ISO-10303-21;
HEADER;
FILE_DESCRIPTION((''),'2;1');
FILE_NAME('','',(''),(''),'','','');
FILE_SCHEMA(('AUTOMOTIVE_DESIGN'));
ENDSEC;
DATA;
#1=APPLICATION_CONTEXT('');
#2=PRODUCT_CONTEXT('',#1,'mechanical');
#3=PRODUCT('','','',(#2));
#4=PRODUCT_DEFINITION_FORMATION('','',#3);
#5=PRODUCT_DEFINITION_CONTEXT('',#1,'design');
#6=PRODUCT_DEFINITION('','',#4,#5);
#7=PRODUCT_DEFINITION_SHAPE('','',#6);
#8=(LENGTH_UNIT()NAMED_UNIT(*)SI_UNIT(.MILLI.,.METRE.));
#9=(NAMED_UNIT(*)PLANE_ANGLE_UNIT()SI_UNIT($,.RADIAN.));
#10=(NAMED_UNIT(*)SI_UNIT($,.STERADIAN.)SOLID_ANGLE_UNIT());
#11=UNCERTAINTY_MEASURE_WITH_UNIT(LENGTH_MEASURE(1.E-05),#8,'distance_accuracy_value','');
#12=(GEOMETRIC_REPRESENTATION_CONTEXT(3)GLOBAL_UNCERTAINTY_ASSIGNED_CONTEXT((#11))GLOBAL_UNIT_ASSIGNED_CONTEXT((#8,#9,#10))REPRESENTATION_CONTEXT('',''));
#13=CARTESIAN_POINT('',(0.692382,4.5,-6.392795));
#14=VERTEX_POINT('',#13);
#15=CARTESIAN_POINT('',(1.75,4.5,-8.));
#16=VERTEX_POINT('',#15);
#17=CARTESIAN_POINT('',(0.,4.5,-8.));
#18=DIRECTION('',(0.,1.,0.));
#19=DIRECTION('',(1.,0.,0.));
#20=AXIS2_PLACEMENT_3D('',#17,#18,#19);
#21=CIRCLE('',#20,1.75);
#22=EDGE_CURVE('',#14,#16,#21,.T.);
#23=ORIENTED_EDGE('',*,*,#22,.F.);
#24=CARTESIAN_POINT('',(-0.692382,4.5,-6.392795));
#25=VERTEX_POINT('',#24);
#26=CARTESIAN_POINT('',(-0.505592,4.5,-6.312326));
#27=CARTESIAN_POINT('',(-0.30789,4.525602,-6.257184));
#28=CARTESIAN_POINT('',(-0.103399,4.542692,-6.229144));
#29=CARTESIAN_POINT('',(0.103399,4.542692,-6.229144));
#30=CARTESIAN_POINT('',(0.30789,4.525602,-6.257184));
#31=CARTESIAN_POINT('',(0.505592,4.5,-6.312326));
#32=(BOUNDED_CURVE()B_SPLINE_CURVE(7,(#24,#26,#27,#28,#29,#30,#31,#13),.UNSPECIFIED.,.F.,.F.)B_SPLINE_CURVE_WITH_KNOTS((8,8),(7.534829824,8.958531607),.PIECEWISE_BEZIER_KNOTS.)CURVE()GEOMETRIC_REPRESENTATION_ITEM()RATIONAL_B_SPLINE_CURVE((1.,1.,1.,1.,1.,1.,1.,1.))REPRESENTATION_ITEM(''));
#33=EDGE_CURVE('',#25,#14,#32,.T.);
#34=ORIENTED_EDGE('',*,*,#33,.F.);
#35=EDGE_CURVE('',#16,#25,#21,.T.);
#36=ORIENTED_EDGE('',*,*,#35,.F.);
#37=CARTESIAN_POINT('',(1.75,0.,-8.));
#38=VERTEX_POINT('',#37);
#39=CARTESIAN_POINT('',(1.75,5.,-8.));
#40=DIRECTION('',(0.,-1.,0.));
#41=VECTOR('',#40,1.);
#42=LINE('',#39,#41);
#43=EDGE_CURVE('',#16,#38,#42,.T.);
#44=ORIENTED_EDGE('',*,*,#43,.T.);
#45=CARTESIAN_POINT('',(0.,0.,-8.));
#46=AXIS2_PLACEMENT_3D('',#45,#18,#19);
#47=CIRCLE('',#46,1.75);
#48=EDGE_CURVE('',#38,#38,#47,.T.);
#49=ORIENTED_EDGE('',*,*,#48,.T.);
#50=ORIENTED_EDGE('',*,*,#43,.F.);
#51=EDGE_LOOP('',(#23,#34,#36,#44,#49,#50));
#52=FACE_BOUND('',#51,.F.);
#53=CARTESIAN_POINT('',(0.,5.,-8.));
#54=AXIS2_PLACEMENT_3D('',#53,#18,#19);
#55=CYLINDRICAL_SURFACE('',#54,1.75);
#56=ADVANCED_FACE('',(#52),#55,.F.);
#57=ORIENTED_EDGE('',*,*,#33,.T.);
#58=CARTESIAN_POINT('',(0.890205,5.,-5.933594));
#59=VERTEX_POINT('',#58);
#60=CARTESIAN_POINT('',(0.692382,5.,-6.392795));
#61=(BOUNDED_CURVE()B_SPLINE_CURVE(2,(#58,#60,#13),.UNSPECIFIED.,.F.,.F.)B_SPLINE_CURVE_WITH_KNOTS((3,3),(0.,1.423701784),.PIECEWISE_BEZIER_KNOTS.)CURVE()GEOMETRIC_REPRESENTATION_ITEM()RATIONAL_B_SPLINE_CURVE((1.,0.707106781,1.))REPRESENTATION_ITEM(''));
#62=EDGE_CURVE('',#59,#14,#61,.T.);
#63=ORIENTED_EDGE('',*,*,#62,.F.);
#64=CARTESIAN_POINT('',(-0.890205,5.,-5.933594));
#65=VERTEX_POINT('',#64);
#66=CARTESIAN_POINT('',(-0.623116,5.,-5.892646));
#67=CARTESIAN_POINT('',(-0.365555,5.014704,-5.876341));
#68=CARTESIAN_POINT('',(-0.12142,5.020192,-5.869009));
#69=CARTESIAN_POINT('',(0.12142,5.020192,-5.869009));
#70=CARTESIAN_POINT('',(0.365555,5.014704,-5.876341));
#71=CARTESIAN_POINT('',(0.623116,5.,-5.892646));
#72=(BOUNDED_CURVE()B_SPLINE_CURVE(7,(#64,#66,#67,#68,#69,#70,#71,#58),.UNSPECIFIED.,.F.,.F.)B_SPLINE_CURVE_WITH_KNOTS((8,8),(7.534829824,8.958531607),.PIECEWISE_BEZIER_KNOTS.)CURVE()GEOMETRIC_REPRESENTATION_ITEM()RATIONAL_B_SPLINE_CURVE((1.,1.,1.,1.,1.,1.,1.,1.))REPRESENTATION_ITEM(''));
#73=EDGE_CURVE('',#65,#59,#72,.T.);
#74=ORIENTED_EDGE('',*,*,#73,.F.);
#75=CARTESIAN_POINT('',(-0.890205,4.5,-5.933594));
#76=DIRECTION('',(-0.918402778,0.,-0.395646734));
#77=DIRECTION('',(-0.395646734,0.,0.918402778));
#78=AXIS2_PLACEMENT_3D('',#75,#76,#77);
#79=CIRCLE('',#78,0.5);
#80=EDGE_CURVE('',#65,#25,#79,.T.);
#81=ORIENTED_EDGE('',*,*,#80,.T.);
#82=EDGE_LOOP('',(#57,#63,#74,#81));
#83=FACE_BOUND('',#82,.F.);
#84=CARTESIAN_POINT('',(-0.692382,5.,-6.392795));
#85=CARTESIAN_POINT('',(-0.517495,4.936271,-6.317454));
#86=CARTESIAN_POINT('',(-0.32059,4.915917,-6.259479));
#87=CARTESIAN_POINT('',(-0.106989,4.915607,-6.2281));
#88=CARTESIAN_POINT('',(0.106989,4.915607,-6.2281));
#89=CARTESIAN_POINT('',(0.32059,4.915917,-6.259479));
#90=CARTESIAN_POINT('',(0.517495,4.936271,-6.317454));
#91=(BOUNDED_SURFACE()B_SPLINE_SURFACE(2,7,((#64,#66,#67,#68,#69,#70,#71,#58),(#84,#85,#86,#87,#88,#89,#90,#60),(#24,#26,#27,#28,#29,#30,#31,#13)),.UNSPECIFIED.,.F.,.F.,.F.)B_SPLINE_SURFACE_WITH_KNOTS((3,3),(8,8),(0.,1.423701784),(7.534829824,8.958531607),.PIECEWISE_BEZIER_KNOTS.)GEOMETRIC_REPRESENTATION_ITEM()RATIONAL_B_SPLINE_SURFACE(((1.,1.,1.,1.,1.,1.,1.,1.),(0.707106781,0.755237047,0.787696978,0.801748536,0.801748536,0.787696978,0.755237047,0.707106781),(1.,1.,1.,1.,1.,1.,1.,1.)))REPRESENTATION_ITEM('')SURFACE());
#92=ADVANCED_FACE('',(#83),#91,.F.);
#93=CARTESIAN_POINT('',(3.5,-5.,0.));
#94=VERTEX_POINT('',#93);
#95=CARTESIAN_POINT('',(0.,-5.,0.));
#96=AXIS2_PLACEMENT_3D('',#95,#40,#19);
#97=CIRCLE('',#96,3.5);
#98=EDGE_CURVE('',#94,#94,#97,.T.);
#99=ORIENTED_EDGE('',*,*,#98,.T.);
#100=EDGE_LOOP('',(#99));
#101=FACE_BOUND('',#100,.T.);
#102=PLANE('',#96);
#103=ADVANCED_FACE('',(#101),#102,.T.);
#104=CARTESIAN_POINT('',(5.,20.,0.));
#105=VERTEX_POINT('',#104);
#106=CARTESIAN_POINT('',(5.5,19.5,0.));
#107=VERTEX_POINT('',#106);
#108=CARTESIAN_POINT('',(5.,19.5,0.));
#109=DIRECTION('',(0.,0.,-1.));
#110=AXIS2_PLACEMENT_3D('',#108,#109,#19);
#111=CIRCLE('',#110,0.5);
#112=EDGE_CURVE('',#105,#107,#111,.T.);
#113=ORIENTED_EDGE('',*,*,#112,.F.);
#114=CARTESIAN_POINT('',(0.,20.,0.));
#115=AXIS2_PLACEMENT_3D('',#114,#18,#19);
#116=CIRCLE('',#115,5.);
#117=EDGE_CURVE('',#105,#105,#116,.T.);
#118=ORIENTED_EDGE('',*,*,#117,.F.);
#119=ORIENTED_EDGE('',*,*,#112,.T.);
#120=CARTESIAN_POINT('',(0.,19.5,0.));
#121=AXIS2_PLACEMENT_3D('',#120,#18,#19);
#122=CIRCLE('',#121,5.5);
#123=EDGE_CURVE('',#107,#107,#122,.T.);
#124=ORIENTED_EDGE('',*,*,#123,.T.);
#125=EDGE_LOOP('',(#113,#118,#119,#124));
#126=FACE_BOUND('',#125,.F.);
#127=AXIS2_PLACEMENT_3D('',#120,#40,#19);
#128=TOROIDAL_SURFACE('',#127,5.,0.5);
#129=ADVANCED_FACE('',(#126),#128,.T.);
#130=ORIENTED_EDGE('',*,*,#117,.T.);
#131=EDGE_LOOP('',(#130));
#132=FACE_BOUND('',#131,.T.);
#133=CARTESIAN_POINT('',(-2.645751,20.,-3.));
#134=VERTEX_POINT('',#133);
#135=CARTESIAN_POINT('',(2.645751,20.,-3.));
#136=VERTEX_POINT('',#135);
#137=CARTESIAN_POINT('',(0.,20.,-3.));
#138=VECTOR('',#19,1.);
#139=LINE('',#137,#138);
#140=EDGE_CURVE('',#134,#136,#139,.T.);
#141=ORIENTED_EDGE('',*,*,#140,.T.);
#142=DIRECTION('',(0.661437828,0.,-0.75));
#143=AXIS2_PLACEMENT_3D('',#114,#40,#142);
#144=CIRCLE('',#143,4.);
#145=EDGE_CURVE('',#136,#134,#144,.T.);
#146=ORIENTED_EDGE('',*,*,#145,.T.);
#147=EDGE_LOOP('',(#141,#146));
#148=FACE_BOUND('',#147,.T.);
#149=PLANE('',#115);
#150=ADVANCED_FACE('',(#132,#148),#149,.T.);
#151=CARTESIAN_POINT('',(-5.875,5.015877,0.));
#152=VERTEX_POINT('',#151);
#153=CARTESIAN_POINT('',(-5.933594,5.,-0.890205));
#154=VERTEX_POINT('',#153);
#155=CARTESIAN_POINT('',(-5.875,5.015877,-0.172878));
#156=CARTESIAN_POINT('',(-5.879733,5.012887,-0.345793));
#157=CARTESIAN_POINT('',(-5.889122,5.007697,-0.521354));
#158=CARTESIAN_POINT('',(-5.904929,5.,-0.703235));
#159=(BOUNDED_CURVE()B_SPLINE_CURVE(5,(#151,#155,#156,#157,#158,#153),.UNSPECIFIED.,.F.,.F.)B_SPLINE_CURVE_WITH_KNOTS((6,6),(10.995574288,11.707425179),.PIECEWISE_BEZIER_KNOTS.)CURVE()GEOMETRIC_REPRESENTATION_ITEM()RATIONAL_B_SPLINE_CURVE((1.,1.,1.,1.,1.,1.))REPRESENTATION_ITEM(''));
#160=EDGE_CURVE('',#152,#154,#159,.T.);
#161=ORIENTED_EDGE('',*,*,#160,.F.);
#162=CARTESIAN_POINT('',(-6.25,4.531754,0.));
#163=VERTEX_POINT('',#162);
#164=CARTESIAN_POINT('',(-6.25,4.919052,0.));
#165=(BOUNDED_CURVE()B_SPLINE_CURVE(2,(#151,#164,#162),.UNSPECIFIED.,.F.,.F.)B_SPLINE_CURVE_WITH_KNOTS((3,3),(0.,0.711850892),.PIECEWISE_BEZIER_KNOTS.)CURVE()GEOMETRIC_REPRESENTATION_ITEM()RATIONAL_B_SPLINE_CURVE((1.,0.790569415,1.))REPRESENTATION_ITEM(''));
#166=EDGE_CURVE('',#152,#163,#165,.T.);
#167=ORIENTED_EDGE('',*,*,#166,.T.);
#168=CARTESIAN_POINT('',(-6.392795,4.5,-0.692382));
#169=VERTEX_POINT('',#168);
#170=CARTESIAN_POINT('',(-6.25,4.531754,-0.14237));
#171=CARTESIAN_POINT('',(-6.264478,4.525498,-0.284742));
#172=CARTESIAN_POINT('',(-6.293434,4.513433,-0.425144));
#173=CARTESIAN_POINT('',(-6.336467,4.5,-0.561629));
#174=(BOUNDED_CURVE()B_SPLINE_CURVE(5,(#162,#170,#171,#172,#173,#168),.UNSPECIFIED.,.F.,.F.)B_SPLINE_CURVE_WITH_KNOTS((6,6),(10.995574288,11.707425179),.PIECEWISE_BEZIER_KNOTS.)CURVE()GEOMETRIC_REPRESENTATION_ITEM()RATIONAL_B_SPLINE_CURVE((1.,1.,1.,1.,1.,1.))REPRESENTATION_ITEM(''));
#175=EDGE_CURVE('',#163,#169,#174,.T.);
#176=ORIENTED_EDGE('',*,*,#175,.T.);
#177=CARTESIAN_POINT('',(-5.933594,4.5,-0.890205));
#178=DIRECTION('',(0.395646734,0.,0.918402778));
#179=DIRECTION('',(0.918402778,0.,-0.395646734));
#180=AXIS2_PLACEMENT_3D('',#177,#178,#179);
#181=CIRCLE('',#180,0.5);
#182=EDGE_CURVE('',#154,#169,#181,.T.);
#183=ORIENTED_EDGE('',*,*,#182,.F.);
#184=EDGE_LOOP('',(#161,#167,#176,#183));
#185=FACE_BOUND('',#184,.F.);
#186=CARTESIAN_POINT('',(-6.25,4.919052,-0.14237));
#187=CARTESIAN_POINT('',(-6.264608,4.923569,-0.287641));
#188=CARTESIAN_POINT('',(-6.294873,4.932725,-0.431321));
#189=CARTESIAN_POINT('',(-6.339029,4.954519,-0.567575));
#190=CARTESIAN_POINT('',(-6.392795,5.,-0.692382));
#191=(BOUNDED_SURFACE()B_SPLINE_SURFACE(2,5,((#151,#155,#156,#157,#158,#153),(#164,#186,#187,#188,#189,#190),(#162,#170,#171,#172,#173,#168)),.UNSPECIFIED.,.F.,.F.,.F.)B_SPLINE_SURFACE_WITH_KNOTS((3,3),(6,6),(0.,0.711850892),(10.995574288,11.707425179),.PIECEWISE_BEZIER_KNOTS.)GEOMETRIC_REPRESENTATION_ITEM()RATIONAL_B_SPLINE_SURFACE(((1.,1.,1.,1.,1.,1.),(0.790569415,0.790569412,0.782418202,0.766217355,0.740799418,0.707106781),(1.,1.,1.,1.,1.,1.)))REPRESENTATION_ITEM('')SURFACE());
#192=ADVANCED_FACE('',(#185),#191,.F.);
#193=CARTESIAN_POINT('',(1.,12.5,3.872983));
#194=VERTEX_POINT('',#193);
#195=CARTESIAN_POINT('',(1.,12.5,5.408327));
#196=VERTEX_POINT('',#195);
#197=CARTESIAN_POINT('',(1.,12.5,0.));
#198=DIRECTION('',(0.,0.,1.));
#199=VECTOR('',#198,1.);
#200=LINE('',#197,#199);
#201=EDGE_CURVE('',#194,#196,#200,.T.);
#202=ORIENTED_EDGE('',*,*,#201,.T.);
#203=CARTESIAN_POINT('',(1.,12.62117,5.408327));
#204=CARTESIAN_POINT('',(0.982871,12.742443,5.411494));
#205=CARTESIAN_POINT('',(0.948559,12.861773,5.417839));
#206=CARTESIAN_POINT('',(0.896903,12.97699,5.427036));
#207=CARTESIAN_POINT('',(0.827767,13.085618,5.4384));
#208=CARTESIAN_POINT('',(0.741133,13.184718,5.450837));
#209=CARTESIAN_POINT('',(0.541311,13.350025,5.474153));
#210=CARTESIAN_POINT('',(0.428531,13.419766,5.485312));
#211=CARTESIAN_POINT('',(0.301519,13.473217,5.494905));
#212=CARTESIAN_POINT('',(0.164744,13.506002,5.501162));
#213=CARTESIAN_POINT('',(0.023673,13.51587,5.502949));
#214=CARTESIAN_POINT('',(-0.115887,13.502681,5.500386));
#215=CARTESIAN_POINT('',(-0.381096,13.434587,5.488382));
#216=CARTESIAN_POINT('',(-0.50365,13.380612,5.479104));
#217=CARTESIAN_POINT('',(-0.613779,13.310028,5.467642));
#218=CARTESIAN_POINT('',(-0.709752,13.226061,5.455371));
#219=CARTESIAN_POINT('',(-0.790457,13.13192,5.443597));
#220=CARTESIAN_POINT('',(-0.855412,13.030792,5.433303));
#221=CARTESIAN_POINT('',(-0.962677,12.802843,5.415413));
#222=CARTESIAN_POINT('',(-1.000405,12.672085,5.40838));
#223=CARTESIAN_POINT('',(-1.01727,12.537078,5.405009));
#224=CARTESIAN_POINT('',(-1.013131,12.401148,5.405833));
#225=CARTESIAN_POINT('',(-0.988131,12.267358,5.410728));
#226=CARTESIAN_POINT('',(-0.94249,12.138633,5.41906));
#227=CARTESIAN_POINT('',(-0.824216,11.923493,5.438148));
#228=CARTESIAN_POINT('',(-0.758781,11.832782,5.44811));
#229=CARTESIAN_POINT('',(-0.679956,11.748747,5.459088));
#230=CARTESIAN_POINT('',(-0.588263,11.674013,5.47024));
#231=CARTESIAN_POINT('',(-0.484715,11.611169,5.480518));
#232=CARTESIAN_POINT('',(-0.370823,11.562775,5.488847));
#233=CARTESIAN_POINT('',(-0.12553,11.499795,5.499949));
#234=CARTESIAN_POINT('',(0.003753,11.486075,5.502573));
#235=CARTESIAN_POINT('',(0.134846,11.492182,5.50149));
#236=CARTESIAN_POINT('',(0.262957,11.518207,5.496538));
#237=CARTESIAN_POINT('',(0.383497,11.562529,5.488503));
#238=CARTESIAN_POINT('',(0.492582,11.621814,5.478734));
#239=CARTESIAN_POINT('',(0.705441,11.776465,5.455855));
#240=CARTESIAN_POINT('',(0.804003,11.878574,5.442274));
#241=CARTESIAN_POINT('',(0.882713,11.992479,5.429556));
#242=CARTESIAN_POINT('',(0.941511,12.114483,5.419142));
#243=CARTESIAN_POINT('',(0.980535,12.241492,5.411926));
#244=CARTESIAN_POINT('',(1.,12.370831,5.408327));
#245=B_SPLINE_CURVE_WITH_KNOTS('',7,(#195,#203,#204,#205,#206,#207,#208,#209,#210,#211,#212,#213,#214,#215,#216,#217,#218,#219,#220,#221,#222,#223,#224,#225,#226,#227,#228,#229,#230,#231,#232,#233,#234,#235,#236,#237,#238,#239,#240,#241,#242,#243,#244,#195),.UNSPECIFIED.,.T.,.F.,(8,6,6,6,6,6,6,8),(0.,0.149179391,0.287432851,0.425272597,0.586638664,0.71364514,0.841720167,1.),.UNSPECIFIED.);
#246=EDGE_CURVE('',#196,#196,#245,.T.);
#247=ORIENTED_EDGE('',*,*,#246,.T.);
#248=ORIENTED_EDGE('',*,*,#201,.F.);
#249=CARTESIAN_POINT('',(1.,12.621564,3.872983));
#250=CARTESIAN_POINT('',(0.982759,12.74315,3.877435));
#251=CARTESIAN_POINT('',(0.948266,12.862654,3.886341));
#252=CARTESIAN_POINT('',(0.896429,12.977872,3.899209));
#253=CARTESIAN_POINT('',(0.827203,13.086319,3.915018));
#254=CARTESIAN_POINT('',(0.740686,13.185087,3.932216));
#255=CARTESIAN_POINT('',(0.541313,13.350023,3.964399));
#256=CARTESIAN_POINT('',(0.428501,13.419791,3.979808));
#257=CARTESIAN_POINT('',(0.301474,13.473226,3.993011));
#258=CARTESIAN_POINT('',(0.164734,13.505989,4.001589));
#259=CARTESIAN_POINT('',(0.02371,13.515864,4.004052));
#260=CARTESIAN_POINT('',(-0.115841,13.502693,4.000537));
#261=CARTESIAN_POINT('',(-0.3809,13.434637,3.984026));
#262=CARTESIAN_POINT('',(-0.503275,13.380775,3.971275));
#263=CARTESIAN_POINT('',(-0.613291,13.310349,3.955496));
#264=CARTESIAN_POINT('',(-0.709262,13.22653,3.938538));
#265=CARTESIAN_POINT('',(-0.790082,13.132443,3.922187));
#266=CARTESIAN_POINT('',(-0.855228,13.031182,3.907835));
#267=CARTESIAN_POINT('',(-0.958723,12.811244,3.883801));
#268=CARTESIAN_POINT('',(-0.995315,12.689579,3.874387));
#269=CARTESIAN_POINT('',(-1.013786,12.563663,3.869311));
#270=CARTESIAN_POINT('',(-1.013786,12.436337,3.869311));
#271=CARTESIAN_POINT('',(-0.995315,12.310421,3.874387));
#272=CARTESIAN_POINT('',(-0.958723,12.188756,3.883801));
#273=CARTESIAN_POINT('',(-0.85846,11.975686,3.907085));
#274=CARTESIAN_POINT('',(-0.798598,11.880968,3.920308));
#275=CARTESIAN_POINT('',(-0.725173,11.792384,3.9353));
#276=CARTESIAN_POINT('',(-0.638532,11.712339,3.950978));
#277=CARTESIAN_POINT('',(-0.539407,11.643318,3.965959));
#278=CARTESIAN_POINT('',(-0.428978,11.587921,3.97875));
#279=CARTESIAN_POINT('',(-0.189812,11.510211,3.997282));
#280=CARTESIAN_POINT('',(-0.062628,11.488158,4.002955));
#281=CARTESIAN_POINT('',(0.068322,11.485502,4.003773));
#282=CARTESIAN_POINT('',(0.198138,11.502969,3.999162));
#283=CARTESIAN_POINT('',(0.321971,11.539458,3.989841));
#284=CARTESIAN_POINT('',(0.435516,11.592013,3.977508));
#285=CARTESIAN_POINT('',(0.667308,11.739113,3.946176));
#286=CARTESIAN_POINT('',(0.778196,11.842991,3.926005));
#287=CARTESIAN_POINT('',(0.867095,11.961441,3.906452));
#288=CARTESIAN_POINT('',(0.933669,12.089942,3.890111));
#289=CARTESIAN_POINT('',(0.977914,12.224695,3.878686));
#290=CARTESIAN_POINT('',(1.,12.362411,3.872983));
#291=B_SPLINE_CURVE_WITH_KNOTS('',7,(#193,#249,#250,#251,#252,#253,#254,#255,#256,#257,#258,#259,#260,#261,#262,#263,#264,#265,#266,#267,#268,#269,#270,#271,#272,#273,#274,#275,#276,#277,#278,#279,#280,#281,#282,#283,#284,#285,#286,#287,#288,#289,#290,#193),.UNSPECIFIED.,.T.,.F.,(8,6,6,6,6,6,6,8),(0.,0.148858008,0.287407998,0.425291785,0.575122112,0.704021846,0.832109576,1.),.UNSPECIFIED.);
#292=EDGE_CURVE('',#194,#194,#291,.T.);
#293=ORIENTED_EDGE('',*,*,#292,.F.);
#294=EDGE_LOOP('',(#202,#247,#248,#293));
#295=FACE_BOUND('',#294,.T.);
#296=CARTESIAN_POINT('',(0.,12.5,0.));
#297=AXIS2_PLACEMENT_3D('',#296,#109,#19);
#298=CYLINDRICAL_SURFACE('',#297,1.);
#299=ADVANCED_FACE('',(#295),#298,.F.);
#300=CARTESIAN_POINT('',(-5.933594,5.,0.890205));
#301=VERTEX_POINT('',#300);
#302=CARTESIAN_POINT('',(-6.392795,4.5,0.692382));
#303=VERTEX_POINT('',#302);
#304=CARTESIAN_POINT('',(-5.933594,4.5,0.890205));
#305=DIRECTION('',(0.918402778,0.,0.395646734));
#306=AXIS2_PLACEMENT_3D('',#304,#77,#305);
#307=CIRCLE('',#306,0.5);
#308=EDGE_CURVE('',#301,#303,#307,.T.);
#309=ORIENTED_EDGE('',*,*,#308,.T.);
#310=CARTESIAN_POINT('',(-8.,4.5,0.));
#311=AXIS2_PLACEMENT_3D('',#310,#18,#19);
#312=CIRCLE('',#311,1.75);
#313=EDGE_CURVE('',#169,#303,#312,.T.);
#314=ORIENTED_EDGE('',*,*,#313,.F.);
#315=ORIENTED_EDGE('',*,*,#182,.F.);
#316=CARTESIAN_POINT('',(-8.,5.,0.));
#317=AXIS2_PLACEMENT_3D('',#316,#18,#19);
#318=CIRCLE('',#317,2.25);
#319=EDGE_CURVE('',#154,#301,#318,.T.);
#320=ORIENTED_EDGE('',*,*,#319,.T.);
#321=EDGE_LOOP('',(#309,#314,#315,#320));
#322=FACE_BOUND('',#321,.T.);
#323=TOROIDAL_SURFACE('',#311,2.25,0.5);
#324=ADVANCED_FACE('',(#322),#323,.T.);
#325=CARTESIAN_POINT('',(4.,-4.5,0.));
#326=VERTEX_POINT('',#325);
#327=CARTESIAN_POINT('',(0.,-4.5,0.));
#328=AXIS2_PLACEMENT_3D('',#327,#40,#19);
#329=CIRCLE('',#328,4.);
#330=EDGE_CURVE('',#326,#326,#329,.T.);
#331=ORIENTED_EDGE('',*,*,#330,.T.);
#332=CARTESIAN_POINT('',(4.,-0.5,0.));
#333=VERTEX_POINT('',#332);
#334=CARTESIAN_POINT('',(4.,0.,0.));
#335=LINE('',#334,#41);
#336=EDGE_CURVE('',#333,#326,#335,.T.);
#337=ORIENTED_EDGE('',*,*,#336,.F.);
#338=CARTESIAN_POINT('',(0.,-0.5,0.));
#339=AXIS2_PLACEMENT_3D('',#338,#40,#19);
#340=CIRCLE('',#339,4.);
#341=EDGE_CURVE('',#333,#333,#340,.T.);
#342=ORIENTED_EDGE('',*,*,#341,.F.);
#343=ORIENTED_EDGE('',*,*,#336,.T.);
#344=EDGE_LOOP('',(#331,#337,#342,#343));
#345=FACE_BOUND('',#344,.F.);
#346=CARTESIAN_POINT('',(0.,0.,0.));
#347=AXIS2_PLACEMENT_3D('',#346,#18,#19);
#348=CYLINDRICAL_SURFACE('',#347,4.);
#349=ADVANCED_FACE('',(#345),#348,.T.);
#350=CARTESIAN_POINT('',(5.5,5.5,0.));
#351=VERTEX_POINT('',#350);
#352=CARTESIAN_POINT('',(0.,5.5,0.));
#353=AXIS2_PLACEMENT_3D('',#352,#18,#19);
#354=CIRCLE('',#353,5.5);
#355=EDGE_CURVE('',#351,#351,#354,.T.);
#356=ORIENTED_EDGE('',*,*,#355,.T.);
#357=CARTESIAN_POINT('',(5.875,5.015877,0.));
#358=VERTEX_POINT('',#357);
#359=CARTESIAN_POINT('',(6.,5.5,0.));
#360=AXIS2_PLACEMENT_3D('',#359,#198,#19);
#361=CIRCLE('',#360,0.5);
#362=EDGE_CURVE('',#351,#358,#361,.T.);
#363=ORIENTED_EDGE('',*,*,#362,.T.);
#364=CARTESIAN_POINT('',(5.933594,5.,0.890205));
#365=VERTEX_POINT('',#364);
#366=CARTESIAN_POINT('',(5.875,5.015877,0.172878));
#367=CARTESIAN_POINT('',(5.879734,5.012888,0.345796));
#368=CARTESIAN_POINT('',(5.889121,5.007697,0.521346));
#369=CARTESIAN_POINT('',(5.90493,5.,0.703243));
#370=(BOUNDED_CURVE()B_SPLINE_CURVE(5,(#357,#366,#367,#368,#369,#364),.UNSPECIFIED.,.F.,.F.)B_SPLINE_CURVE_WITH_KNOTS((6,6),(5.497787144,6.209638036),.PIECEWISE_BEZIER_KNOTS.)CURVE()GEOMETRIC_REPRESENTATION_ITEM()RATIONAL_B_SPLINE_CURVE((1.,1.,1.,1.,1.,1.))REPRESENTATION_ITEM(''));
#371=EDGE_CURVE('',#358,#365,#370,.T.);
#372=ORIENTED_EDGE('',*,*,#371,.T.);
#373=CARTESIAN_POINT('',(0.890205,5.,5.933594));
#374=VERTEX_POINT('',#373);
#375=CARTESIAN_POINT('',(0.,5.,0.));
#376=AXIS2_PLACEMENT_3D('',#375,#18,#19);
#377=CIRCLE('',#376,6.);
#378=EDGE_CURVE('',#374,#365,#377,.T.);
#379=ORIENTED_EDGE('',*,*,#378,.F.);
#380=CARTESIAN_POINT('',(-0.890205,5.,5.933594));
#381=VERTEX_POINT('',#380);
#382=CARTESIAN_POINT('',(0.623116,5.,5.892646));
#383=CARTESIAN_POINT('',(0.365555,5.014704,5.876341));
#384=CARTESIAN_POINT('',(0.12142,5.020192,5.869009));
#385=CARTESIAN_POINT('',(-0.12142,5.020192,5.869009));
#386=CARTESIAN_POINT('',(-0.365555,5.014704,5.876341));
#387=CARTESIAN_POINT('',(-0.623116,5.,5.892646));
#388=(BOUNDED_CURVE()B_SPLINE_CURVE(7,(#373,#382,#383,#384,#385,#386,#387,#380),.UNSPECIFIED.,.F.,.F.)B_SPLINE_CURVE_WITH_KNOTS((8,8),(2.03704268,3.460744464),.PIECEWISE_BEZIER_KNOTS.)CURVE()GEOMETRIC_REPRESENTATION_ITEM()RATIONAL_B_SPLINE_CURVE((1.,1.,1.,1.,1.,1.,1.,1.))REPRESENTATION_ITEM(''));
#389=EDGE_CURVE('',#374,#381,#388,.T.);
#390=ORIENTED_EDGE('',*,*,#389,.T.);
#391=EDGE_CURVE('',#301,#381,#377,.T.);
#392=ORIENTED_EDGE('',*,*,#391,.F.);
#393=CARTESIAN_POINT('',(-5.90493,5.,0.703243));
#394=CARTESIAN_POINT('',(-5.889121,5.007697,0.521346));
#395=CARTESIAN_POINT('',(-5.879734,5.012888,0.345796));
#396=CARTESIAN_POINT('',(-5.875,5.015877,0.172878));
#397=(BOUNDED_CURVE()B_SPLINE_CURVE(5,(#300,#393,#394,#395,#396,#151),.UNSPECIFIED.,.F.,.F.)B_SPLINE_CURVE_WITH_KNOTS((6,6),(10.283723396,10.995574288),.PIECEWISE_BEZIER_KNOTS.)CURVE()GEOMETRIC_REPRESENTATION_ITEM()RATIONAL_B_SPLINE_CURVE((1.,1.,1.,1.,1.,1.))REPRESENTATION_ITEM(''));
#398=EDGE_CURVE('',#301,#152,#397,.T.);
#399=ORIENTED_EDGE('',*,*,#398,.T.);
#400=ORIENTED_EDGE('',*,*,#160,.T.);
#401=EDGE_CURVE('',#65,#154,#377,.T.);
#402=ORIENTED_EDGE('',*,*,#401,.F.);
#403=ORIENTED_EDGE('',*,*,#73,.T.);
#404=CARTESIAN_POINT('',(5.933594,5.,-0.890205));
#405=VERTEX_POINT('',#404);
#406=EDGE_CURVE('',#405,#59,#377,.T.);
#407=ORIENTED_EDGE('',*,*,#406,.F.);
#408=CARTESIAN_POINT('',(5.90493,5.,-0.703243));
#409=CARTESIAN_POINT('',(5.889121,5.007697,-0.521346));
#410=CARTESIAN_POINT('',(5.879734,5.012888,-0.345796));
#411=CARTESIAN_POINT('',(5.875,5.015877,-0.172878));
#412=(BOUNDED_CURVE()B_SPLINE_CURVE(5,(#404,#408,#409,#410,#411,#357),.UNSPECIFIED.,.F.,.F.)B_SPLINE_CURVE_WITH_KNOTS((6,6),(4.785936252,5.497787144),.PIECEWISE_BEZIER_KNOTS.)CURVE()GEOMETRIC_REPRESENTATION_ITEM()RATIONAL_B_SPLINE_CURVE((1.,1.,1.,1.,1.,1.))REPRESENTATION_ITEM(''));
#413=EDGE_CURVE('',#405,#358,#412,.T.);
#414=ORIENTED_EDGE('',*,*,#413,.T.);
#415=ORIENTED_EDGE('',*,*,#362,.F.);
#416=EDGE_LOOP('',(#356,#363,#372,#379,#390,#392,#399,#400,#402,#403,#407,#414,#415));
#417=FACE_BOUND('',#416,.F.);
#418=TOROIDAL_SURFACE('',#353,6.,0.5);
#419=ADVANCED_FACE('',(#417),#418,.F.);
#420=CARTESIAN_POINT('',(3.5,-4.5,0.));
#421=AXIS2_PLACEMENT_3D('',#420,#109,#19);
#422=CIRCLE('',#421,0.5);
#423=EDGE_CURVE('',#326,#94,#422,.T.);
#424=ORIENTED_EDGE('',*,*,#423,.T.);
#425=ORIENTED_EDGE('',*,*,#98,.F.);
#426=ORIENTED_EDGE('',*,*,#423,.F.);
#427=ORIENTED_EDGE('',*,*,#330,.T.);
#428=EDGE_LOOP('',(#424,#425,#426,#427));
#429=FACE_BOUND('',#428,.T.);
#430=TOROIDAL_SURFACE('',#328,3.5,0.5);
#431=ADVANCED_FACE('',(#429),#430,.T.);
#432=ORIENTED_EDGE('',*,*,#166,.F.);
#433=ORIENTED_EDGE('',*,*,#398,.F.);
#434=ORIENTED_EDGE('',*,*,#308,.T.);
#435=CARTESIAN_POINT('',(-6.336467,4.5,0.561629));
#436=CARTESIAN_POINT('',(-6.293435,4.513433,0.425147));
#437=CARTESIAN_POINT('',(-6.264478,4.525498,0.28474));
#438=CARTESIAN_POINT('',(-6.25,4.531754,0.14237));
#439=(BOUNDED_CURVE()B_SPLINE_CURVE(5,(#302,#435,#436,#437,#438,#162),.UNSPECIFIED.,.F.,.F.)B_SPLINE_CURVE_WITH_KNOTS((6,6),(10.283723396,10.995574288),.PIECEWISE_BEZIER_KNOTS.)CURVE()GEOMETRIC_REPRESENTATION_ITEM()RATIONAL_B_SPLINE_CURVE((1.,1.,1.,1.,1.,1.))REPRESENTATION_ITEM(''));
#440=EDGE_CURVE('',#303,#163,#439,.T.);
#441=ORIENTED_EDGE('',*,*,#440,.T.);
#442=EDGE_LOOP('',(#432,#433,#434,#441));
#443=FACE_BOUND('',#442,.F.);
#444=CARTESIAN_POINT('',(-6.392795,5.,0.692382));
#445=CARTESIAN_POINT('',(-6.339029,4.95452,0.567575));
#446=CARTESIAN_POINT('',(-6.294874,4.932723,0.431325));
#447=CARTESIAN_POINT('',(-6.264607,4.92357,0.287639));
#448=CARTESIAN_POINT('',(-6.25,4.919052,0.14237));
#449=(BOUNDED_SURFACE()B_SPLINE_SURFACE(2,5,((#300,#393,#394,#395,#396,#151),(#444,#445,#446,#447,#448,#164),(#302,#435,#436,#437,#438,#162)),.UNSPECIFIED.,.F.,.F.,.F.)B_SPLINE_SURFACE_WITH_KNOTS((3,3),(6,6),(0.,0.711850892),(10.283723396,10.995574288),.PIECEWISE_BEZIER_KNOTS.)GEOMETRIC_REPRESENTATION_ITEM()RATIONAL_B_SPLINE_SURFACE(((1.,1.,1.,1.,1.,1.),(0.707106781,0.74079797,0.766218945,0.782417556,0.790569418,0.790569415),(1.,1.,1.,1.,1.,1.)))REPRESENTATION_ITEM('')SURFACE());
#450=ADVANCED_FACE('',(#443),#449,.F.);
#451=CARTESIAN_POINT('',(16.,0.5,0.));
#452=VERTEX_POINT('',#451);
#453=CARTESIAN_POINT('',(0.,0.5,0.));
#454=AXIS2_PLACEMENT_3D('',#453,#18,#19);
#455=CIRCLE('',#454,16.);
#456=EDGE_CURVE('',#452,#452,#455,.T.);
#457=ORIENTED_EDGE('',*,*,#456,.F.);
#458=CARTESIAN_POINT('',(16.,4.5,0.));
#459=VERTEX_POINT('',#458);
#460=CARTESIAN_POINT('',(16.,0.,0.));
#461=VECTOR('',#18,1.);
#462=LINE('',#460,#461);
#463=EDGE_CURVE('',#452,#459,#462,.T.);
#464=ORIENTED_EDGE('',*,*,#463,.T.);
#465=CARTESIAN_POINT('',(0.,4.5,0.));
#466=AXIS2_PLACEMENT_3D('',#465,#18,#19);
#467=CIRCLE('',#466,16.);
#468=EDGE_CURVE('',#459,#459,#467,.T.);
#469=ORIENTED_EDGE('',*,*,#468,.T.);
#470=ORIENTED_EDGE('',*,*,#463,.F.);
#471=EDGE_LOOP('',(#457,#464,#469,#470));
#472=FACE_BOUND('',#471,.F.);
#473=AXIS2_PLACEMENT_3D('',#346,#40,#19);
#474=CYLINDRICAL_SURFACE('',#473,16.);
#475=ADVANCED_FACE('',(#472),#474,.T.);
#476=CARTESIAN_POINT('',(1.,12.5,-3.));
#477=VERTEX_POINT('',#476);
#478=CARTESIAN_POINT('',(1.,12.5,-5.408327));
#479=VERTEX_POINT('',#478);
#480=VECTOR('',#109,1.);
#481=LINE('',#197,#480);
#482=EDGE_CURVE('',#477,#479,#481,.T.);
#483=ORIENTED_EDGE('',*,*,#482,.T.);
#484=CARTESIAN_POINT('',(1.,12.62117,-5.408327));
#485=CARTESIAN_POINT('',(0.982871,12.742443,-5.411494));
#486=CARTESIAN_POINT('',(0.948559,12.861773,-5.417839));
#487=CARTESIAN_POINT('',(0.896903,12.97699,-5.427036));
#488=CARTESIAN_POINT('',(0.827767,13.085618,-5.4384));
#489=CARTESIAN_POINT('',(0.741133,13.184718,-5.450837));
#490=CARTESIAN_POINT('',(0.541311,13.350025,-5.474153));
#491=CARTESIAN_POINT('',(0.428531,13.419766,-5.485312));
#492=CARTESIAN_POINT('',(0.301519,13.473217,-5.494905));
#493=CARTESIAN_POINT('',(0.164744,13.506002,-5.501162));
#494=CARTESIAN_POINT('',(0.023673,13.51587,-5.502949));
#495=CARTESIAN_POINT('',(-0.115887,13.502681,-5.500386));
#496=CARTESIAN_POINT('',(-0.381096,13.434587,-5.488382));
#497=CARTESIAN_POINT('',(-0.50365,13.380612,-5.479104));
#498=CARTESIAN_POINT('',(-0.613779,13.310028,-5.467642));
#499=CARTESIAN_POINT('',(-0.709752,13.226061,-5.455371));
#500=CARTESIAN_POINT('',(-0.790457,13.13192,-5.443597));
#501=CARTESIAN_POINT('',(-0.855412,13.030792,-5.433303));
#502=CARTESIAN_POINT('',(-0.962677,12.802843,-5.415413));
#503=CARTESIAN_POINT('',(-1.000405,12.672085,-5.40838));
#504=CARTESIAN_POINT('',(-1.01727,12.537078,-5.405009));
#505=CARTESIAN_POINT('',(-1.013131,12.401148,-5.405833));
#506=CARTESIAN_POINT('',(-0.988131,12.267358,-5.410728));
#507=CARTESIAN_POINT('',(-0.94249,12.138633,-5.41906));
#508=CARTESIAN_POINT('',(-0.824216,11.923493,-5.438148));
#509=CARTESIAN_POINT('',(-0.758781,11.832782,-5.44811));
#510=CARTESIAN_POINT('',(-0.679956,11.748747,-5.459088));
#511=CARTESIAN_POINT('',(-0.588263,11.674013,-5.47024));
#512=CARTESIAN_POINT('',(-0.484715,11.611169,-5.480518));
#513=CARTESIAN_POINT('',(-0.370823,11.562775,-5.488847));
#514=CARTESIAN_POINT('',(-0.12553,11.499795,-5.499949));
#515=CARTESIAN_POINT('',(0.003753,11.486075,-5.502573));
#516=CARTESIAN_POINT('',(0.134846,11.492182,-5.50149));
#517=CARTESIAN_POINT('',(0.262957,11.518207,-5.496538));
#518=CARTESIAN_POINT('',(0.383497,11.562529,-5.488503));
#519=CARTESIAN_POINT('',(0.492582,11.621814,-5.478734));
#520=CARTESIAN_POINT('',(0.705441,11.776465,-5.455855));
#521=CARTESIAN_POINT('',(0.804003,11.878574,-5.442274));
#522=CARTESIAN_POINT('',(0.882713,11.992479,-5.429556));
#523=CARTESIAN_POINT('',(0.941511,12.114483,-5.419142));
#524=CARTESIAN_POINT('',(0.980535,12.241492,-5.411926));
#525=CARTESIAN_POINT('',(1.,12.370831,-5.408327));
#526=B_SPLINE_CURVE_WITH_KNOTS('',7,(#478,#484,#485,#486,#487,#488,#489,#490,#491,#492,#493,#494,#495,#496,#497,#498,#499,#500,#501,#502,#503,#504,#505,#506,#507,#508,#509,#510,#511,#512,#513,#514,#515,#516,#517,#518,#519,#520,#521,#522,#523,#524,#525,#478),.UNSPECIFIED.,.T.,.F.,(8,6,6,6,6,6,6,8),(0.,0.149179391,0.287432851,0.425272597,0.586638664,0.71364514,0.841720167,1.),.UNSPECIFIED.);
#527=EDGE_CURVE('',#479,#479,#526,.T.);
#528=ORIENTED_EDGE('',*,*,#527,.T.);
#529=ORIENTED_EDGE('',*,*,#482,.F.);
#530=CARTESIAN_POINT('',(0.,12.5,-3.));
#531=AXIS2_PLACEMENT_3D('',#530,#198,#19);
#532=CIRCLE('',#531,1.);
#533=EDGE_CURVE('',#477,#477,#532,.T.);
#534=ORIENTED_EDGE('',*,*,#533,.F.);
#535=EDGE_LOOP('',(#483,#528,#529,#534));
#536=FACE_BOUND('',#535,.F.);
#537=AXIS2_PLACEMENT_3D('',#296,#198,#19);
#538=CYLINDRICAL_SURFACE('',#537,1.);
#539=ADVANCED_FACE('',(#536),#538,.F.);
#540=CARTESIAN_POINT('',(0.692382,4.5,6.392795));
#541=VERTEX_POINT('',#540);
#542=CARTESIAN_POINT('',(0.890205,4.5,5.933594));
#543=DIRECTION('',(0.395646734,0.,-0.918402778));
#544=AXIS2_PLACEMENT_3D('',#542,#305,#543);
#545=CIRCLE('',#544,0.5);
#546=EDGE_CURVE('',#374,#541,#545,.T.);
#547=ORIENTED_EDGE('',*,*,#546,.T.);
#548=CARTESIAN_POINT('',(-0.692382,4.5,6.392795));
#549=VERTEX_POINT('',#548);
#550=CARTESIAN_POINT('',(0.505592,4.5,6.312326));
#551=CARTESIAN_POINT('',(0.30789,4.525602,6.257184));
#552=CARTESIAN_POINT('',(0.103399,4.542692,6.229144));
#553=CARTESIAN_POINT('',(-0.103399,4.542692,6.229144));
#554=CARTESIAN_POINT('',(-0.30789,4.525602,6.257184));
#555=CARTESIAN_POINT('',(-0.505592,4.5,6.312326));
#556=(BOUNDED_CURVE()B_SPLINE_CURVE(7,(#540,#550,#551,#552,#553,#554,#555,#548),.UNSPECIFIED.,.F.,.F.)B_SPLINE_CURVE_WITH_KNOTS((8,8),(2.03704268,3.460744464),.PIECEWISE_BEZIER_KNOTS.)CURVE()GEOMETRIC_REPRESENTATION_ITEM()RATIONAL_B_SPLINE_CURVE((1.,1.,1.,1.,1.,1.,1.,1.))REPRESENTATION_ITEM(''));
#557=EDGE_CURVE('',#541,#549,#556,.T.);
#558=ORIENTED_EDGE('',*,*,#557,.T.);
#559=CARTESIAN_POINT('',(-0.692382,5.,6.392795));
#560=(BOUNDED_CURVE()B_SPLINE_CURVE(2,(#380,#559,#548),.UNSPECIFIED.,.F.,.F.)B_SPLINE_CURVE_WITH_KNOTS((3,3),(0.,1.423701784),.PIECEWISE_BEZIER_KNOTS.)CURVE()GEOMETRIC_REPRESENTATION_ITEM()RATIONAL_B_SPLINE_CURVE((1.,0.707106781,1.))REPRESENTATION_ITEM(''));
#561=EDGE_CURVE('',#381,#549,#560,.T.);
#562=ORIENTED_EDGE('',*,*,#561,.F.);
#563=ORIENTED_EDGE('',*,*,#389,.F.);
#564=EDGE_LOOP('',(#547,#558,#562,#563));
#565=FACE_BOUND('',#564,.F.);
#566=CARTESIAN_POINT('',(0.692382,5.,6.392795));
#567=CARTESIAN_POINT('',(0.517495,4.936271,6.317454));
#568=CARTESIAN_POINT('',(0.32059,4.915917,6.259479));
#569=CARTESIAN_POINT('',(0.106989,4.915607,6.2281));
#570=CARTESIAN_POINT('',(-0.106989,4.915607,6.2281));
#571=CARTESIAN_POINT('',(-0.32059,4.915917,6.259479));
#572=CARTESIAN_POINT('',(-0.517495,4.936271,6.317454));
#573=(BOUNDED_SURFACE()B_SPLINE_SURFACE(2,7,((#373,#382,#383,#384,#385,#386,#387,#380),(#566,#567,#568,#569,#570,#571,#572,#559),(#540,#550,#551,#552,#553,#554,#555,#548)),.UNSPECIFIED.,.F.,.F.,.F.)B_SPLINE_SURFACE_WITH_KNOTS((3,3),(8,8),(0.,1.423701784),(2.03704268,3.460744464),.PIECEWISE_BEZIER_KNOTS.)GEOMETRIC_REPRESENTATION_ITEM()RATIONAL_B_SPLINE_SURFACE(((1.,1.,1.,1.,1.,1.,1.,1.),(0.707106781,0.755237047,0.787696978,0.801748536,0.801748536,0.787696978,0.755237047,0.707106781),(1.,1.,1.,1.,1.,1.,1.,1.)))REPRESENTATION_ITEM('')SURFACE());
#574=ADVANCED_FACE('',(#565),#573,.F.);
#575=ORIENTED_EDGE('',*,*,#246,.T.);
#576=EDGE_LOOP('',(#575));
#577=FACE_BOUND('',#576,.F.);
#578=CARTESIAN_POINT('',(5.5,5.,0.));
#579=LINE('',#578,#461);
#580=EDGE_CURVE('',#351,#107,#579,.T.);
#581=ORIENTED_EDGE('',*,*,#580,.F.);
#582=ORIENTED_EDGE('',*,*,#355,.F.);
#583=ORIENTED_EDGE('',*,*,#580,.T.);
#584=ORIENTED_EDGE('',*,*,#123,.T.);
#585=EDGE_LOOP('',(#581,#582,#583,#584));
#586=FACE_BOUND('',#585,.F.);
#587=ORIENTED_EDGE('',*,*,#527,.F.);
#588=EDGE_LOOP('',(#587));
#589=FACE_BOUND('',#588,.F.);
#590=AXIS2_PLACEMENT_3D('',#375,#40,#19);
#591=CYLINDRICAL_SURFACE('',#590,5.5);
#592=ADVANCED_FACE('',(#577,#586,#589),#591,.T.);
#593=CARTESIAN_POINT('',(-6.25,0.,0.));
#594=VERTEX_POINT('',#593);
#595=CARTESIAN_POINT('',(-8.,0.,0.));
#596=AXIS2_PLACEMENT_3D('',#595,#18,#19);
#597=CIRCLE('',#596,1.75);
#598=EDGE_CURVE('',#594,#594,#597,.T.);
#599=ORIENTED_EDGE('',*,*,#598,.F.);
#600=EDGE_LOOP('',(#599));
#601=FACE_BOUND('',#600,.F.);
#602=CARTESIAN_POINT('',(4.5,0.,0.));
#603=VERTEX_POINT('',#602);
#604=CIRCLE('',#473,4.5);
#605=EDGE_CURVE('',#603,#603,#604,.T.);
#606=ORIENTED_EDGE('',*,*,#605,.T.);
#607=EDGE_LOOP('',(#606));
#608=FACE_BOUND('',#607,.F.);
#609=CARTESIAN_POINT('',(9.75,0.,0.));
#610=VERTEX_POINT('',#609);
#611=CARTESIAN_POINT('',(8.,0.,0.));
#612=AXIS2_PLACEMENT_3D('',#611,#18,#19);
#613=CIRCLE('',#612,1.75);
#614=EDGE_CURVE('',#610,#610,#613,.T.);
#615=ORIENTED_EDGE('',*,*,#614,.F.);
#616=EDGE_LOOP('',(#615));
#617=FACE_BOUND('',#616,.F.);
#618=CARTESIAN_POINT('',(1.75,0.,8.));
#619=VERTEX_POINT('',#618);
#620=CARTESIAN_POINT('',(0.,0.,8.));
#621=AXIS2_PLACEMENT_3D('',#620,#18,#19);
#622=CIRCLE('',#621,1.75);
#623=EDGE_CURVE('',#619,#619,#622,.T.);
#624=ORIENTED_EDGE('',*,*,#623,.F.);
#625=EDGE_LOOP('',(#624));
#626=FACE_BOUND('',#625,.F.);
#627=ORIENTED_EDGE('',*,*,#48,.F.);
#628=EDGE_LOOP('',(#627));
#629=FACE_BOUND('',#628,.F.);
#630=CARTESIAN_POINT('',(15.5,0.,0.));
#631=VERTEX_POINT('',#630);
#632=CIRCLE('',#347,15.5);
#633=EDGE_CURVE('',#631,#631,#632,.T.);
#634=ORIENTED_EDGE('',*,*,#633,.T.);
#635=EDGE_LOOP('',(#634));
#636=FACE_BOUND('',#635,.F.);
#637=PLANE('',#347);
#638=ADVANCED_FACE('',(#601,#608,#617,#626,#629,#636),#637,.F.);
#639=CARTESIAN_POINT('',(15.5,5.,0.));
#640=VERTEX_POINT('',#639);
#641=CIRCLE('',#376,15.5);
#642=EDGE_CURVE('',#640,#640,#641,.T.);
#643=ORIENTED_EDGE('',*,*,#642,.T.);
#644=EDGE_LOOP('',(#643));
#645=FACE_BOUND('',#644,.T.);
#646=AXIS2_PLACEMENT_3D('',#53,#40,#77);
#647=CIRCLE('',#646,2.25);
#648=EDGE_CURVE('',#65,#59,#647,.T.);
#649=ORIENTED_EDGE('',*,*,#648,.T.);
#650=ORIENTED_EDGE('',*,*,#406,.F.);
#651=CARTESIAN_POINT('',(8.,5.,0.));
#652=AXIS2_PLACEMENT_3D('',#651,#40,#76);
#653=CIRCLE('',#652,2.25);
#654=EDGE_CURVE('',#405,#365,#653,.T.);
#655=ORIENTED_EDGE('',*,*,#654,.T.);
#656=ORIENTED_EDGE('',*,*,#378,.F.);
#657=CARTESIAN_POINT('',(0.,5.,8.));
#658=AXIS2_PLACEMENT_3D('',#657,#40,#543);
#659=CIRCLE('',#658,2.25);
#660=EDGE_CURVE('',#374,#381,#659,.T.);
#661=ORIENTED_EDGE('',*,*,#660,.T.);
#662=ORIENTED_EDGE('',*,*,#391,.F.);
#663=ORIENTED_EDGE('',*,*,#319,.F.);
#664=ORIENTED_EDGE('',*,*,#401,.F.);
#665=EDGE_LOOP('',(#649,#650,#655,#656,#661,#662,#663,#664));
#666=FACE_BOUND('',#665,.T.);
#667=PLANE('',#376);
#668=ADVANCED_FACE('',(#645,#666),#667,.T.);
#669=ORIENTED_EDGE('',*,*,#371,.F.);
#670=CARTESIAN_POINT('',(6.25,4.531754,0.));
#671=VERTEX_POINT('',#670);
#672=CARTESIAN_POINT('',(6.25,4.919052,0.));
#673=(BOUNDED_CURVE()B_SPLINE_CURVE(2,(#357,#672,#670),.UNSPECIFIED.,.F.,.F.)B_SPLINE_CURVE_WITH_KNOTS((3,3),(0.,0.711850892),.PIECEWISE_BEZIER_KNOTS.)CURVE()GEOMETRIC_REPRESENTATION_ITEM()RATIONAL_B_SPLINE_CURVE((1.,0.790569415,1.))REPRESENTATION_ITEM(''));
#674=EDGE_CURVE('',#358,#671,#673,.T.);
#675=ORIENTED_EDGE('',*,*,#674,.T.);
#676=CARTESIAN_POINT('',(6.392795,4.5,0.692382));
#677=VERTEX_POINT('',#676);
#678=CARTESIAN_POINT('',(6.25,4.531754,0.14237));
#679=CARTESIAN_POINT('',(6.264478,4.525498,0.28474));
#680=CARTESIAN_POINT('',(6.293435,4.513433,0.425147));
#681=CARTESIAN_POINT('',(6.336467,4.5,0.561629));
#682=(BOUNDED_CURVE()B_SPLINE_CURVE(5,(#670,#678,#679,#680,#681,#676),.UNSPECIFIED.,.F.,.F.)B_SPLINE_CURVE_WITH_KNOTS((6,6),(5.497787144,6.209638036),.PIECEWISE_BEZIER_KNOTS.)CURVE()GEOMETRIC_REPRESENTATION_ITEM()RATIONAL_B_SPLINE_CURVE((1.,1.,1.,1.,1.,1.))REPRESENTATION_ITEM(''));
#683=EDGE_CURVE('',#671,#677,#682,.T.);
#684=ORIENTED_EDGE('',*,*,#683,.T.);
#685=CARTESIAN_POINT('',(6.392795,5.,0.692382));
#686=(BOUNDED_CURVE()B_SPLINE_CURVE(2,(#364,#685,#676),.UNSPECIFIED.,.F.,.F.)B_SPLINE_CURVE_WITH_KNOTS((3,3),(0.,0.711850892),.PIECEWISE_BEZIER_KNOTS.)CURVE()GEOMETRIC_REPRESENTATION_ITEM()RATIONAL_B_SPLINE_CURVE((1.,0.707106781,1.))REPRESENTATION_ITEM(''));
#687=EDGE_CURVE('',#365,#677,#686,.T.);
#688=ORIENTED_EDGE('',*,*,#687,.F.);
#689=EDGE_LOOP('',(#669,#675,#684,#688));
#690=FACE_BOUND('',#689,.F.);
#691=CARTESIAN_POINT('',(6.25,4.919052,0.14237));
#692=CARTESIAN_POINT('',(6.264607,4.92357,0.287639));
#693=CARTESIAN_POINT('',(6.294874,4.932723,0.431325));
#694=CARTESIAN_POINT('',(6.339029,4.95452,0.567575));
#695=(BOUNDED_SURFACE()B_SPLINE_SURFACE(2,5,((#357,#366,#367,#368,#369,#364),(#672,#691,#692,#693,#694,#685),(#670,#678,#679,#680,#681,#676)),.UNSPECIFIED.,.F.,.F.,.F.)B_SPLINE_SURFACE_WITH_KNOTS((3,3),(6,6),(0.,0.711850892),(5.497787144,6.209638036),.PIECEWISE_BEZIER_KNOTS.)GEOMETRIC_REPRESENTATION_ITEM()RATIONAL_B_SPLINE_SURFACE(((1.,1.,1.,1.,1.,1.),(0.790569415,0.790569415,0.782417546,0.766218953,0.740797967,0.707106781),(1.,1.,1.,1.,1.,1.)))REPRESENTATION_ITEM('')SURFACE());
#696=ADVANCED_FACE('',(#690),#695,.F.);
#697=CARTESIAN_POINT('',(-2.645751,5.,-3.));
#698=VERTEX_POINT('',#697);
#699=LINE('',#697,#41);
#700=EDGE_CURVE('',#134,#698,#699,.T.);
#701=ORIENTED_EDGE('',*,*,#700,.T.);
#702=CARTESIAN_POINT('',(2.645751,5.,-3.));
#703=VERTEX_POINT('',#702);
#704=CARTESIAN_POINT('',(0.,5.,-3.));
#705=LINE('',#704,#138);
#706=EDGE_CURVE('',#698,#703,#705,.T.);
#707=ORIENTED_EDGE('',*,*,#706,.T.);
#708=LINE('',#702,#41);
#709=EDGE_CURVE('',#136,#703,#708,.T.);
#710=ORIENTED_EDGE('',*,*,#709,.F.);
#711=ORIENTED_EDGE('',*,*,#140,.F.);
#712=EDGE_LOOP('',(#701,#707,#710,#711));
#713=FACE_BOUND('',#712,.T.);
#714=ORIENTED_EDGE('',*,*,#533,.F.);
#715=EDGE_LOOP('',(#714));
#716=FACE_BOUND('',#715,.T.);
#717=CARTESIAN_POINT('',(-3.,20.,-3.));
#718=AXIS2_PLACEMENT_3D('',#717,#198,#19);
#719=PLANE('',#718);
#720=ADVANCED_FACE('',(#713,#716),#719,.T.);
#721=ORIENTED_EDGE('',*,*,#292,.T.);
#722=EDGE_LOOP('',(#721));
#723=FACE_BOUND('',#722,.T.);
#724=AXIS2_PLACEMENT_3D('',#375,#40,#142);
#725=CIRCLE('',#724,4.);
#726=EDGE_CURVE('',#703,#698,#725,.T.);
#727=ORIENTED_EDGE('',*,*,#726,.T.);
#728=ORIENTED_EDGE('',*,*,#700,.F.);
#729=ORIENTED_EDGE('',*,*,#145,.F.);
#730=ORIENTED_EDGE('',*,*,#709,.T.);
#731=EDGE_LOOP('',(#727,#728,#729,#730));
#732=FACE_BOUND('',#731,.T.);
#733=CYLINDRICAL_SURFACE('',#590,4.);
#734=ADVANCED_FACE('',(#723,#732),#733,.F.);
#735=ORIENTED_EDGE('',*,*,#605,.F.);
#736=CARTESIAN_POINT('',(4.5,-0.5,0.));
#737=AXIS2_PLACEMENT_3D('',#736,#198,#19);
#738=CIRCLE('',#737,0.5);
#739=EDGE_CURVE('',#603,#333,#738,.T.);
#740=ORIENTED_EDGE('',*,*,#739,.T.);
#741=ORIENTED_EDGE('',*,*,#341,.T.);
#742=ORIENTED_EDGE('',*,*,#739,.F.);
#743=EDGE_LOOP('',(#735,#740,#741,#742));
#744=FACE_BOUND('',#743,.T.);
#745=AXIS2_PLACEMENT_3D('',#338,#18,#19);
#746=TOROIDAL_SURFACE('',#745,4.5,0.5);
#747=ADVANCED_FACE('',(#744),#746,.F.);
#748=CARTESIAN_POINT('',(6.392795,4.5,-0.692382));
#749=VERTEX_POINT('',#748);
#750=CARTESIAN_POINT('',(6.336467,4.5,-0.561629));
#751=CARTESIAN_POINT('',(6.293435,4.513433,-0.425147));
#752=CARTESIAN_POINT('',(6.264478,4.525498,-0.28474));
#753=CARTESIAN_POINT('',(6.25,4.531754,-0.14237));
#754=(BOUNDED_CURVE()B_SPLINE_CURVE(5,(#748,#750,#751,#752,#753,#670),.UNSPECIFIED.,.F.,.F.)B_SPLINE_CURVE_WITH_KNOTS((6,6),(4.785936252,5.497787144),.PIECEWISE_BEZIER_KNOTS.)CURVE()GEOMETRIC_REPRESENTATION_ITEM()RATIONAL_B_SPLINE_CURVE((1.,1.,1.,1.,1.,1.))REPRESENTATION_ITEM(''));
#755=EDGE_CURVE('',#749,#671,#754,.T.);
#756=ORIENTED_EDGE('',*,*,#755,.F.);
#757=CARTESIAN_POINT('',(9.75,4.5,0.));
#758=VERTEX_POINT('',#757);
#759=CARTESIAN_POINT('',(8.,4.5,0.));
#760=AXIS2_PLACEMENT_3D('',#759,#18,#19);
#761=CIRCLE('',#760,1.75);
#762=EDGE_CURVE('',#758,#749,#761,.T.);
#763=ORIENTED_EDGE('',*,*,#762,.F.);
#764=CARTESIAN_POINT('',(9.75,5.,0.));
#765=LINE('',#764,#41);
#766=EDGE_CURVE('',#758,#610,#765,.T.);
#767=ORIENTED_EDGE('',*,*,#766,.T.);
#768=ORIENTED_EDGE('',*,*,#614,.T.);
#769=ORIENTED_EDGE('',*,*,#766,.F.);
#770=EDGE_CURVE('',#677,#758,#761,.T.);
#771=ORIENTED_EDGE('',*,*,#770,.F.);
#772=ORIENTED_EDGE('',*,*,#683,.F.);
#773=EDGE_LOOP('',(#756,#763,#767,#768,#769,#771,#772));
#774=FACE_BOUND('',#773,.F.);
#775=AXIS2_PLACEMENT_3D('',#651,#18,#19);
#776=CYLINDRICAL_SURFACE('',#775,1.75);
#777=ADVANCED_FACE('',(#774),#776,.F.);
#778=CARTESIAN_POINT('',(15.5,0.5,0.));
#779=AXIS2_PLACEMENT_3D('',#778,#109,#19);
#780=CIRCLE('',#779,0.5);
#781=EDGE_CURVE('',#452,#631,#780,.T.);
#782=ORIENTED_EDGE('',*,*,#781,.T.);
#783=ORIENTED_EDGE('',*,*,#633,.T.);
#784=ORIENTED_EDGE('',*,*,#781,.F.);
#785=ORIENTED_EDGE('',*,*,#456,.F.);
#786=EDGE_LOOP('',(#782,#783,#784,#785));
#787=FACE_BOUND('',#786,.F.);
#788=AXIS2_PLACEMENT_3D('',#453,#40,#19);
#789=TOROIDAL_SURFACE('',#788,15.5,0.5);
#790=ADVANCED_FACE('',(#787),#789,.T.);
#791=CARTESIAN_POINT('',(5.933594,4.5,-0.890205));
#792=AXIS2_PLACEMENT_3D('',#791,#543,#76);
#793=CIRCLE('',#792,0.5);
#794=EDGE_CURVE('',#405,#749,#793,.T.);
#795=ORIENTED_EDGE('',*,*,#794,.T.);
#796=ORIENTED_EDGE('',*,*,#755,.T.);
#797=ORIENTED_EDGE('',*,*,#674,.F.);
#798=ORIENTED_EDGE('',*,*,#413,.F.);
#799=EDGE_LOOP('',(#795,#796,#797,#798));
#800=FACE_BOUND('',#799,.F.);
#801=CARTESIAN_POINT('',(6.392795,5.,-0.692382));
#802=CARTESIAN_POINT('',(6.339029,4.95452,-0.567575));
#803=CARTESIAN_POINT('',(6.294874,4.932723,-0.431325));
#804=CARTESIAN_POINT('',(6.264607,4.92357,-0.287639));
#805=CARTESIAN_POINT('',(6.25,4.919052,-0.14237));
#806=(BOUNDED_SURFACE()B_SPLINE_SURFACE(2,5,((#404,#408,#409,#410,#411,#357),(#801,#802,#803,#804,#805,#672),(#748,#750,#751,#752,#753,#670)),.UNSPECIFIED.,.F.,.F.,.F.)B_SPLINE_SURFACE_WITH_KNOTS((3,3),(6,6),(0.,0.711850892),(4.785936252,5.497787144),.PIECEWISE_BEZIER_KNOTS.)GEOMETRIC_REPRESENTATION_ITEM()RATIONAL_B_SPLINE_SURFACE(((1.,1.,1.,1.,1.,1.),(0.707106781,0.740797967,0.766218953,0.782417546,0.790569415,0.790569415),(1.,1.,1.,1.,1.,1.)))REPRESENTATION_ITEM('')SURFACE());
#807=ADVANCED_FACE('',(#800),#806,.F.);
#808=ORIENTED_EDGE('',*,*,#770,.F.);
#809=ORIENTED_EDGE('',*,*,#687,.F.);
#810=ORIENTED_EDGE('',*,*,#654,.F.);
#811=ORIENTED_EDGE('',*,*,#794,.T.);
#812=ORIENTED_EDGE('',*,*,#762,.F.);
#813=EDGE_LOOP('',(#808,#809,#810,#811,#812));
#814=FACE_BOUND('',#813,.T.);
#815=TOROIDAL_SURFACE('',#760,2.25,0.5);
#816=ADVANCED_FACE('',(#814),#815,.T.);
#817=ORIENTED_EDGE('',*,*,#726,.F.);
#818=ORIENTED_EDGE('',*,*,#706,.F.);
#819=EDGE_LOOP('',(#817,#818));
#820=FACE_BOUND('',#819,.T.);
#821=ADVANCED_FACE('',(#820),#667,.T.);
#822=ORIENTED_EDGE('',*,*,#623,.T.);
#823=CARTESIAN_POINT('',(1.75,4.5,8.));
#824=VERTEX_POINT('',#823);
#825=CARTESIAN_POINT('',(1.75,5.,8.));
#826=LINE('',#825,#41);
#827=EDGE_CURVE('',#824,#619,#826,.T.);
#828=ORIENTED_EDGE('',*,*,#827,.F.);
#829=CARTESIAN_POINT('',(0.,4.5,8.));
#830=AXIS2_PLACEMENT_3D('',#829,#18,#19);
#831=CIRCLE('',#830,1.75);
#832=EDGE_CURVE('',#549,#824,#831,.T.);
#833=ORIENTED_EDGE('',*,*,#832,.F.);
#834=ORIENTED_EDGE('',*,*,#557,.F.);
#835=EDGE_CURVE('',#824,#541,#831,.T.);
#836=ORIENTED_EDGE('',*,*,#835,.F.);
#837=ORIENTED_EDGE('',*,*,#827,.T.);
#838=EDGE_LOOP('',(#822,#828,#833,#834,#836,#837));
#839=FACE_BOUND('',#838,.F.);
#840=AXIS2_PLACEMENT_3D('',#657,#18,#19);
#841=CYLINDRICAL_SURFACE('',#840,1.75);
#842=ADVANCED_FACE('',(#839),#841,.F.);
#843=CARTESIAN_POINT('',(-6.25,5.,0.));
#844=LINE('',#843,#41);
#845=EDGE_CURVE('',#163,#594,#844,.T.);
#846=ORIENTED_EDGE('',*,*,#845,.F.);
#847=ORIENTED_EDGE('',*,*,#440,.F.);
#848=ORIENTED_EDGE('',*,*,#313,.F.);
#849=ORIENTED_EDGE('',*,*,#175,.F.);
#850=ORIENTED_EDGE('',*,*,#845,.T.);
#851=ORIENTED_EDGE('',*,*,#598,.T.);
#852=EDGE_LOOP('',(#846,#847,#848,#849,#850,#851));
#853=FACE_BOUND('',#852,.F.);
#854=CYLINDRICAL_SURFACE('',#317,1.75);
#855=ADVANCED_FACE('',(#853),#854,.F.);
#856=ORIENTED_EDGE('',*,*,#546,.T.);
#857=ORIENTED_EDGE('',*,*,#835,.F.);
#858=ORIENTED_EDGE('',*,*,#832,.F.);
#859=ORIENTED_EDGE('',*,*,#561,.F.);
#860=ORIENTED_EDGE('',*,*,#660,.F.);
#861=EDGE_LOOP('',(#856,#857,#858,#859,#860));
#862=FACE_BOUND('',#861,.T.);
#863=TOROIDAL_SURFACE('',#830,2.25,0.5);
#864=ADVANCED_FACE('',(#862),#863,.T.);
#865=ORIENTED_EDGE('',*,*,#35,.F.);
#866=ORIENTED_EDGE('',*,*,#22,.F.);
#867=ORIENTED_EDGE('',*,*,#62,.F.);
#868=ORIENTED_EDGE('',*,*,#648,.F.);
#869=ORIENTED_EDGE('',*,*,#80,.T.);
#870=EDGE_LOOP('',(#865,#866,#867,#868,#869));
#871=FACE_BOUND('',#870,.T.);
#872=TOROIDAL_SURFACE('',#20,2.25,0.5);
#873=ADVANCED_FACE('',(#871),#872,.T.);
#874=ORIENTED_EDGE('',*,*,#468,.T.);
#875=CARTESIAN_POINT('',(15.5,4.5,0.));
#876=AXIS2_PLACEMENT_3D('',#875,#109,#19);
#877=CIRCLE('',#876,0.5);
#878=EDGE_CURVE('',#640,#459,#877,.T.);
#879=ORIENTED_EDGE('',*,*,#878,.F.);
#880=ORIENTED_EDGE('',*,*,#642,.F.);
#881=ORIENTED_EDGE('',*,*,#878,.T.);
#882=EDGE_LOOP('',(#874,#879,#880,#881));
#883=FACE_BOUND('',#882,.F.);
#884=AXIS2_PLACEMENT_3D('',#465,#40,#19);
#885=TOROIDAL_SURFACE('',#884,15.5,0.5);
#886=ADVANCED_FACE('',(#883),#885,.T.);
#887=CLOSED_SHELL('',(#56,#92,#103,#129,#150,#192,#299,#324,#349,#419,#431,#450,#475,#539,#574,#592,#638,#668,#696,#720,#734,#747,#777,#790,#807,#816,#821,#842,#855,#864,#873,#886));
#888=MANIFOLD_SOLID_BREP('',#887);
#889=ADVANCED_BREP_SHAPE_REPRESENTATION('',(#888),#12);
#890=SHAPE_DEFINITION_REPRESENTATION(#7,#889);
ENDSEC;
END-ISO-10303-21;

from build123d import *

# Parameters (mm, degrees)
SKETCH1_R               = 16
BOSS_EXTRUDE1_DEPTH     = 5
SKETCH3_R               = 5.5
SKETCH3_R_2             = 4
BOSS_EXTRUDE2_DEPTH     = 15
SKETCH4_W               = 6
SKETCH4_H               = 1.5
BOSS_EXTRUDE3_DEPTH     = 15
SKETCH5_R               = 1.75
CUT_EXTRUDE1_DEPTH      = 6
FILLET1_R               = 0.5
SKETCH6_R               = 1
CUT_EXTRUDE2_DEPTH      = 17
CUT_EXTRUDE2_DEPTH_BACK = 17
FILLET2_R               = 0.5
SKETCH7_R               = 4
BOSS_EXTRUDE4_DEPTH     = 5
FILLET3_R               = 0.5


with BuildPart() as part:
    # Sketch1 → Boss-Extrude1 (new body)
    with BuildSketch(Plane(origin=(0, 0, 0), x_dir=(1, 0, 0), z_dir=(0, 1, 0))):
        Circle(SKETCH1_R)
    extrude(amount=BOSS_EXTRUDE1_DEPTH)

    # Sketch3 → Boss-Extrude2 (add)
    with BuildSketch(Plane(origin=(0, 5, 0), x_dir=(1, 0, 0), z_dir=(0, 1, 0))):
        Circle(SKETCH3_R)
        Circle(SKETCH3_R_2, mode=Mode.SUBTRACT)
    extrude(amount=BOSS_EXTRUDE2_DEPTH)

    # Sketch4 → Boss-Extrude3 (add)
    with BuildSketch(Plane(origin=(0, 20, 0), x_dir=(1, 0, 0), z_dir=(0, 1, 0))):
        with Locations((0, 3.75)):
            Rectangle(SKETCH4_W, SKETCH4_H)
    extrude(amount=-BOSS_EXTRUDE3_DEPTH)

    # Sketch5 → Cut-Extrude1 (cut, through all)
    with BuildSketch(Plane(origin=(0, 5, 0), x_dir=(1, 0, 0), z_dir=(0, 1, 0))):
        with Locations((0, 8)):
            Circle(SKETCH5_R)
        with Locations((8, 0)):
            Circle(SKETCH5_R)
        with Locations((0, -8)):
            Circle(SKETCH5_R)
        with Locations((-8, 0)):
            Circle(SKETCH5_R)
    extrude(amount=-CUT_EXTRUDE1_DEPTH, mode=Mode.SUBTRACT)

    # Fillet1
    fillet1_edges = [part.edges().sort_by_distance(p)[0] for p in [
        (-16, 0, 0),
        (-16, 5, 0),
        (-5.5, 20, 0),
        (-5.5, 5, 0),
    ]]
    fillet(fillet1_edges, radius=FILLET1_R)

    # Sketch6 → Cut-Extrude2 (cut, two sides)
    with BuildSketch(Plane.XY) as cut_extrude2_sk:
        with Locations((0, 12.5)):
            Circle(SKETCH6_R)
    extrude(amount=CUT_EXTRUDE2_DEPTH, mode=Mode.SUBTRACT)
    extrude(cut_extrude2_sk.sketch, amount=-CUT_EXTRUDE2_DEPTH_BACK, mode=Mode.SUBTRACT)

    # Fillet2
    fillet2_edges = [part.edges().sort_by_distance(p)[0] for p in [
        (-1.75, 5, -8),
        (6.25, 5, 0),
        (-1.75, 5, 8),
        (-9.75, 5, 0),
    ]]
    fillet(fillet2_edges, radius=FILLET2_R)

    # Sketch7 → Boss-Extrude4 (add)
    with BuildSketch(Plane.XZ):
        Circle(SKETCH7_R)
    extrude(amount=BOSS_EXTRUDE4_DEPTH)

    # Fillet3
    fillet3_edges = [part.edges().sort_by_distance(p)[0] for p in [
        (-4, 0, 0),
        (-4, -5, 0),
    ]]
    fillet(fillet3_edges, radius=FILLET3_R)


solid = part.part
